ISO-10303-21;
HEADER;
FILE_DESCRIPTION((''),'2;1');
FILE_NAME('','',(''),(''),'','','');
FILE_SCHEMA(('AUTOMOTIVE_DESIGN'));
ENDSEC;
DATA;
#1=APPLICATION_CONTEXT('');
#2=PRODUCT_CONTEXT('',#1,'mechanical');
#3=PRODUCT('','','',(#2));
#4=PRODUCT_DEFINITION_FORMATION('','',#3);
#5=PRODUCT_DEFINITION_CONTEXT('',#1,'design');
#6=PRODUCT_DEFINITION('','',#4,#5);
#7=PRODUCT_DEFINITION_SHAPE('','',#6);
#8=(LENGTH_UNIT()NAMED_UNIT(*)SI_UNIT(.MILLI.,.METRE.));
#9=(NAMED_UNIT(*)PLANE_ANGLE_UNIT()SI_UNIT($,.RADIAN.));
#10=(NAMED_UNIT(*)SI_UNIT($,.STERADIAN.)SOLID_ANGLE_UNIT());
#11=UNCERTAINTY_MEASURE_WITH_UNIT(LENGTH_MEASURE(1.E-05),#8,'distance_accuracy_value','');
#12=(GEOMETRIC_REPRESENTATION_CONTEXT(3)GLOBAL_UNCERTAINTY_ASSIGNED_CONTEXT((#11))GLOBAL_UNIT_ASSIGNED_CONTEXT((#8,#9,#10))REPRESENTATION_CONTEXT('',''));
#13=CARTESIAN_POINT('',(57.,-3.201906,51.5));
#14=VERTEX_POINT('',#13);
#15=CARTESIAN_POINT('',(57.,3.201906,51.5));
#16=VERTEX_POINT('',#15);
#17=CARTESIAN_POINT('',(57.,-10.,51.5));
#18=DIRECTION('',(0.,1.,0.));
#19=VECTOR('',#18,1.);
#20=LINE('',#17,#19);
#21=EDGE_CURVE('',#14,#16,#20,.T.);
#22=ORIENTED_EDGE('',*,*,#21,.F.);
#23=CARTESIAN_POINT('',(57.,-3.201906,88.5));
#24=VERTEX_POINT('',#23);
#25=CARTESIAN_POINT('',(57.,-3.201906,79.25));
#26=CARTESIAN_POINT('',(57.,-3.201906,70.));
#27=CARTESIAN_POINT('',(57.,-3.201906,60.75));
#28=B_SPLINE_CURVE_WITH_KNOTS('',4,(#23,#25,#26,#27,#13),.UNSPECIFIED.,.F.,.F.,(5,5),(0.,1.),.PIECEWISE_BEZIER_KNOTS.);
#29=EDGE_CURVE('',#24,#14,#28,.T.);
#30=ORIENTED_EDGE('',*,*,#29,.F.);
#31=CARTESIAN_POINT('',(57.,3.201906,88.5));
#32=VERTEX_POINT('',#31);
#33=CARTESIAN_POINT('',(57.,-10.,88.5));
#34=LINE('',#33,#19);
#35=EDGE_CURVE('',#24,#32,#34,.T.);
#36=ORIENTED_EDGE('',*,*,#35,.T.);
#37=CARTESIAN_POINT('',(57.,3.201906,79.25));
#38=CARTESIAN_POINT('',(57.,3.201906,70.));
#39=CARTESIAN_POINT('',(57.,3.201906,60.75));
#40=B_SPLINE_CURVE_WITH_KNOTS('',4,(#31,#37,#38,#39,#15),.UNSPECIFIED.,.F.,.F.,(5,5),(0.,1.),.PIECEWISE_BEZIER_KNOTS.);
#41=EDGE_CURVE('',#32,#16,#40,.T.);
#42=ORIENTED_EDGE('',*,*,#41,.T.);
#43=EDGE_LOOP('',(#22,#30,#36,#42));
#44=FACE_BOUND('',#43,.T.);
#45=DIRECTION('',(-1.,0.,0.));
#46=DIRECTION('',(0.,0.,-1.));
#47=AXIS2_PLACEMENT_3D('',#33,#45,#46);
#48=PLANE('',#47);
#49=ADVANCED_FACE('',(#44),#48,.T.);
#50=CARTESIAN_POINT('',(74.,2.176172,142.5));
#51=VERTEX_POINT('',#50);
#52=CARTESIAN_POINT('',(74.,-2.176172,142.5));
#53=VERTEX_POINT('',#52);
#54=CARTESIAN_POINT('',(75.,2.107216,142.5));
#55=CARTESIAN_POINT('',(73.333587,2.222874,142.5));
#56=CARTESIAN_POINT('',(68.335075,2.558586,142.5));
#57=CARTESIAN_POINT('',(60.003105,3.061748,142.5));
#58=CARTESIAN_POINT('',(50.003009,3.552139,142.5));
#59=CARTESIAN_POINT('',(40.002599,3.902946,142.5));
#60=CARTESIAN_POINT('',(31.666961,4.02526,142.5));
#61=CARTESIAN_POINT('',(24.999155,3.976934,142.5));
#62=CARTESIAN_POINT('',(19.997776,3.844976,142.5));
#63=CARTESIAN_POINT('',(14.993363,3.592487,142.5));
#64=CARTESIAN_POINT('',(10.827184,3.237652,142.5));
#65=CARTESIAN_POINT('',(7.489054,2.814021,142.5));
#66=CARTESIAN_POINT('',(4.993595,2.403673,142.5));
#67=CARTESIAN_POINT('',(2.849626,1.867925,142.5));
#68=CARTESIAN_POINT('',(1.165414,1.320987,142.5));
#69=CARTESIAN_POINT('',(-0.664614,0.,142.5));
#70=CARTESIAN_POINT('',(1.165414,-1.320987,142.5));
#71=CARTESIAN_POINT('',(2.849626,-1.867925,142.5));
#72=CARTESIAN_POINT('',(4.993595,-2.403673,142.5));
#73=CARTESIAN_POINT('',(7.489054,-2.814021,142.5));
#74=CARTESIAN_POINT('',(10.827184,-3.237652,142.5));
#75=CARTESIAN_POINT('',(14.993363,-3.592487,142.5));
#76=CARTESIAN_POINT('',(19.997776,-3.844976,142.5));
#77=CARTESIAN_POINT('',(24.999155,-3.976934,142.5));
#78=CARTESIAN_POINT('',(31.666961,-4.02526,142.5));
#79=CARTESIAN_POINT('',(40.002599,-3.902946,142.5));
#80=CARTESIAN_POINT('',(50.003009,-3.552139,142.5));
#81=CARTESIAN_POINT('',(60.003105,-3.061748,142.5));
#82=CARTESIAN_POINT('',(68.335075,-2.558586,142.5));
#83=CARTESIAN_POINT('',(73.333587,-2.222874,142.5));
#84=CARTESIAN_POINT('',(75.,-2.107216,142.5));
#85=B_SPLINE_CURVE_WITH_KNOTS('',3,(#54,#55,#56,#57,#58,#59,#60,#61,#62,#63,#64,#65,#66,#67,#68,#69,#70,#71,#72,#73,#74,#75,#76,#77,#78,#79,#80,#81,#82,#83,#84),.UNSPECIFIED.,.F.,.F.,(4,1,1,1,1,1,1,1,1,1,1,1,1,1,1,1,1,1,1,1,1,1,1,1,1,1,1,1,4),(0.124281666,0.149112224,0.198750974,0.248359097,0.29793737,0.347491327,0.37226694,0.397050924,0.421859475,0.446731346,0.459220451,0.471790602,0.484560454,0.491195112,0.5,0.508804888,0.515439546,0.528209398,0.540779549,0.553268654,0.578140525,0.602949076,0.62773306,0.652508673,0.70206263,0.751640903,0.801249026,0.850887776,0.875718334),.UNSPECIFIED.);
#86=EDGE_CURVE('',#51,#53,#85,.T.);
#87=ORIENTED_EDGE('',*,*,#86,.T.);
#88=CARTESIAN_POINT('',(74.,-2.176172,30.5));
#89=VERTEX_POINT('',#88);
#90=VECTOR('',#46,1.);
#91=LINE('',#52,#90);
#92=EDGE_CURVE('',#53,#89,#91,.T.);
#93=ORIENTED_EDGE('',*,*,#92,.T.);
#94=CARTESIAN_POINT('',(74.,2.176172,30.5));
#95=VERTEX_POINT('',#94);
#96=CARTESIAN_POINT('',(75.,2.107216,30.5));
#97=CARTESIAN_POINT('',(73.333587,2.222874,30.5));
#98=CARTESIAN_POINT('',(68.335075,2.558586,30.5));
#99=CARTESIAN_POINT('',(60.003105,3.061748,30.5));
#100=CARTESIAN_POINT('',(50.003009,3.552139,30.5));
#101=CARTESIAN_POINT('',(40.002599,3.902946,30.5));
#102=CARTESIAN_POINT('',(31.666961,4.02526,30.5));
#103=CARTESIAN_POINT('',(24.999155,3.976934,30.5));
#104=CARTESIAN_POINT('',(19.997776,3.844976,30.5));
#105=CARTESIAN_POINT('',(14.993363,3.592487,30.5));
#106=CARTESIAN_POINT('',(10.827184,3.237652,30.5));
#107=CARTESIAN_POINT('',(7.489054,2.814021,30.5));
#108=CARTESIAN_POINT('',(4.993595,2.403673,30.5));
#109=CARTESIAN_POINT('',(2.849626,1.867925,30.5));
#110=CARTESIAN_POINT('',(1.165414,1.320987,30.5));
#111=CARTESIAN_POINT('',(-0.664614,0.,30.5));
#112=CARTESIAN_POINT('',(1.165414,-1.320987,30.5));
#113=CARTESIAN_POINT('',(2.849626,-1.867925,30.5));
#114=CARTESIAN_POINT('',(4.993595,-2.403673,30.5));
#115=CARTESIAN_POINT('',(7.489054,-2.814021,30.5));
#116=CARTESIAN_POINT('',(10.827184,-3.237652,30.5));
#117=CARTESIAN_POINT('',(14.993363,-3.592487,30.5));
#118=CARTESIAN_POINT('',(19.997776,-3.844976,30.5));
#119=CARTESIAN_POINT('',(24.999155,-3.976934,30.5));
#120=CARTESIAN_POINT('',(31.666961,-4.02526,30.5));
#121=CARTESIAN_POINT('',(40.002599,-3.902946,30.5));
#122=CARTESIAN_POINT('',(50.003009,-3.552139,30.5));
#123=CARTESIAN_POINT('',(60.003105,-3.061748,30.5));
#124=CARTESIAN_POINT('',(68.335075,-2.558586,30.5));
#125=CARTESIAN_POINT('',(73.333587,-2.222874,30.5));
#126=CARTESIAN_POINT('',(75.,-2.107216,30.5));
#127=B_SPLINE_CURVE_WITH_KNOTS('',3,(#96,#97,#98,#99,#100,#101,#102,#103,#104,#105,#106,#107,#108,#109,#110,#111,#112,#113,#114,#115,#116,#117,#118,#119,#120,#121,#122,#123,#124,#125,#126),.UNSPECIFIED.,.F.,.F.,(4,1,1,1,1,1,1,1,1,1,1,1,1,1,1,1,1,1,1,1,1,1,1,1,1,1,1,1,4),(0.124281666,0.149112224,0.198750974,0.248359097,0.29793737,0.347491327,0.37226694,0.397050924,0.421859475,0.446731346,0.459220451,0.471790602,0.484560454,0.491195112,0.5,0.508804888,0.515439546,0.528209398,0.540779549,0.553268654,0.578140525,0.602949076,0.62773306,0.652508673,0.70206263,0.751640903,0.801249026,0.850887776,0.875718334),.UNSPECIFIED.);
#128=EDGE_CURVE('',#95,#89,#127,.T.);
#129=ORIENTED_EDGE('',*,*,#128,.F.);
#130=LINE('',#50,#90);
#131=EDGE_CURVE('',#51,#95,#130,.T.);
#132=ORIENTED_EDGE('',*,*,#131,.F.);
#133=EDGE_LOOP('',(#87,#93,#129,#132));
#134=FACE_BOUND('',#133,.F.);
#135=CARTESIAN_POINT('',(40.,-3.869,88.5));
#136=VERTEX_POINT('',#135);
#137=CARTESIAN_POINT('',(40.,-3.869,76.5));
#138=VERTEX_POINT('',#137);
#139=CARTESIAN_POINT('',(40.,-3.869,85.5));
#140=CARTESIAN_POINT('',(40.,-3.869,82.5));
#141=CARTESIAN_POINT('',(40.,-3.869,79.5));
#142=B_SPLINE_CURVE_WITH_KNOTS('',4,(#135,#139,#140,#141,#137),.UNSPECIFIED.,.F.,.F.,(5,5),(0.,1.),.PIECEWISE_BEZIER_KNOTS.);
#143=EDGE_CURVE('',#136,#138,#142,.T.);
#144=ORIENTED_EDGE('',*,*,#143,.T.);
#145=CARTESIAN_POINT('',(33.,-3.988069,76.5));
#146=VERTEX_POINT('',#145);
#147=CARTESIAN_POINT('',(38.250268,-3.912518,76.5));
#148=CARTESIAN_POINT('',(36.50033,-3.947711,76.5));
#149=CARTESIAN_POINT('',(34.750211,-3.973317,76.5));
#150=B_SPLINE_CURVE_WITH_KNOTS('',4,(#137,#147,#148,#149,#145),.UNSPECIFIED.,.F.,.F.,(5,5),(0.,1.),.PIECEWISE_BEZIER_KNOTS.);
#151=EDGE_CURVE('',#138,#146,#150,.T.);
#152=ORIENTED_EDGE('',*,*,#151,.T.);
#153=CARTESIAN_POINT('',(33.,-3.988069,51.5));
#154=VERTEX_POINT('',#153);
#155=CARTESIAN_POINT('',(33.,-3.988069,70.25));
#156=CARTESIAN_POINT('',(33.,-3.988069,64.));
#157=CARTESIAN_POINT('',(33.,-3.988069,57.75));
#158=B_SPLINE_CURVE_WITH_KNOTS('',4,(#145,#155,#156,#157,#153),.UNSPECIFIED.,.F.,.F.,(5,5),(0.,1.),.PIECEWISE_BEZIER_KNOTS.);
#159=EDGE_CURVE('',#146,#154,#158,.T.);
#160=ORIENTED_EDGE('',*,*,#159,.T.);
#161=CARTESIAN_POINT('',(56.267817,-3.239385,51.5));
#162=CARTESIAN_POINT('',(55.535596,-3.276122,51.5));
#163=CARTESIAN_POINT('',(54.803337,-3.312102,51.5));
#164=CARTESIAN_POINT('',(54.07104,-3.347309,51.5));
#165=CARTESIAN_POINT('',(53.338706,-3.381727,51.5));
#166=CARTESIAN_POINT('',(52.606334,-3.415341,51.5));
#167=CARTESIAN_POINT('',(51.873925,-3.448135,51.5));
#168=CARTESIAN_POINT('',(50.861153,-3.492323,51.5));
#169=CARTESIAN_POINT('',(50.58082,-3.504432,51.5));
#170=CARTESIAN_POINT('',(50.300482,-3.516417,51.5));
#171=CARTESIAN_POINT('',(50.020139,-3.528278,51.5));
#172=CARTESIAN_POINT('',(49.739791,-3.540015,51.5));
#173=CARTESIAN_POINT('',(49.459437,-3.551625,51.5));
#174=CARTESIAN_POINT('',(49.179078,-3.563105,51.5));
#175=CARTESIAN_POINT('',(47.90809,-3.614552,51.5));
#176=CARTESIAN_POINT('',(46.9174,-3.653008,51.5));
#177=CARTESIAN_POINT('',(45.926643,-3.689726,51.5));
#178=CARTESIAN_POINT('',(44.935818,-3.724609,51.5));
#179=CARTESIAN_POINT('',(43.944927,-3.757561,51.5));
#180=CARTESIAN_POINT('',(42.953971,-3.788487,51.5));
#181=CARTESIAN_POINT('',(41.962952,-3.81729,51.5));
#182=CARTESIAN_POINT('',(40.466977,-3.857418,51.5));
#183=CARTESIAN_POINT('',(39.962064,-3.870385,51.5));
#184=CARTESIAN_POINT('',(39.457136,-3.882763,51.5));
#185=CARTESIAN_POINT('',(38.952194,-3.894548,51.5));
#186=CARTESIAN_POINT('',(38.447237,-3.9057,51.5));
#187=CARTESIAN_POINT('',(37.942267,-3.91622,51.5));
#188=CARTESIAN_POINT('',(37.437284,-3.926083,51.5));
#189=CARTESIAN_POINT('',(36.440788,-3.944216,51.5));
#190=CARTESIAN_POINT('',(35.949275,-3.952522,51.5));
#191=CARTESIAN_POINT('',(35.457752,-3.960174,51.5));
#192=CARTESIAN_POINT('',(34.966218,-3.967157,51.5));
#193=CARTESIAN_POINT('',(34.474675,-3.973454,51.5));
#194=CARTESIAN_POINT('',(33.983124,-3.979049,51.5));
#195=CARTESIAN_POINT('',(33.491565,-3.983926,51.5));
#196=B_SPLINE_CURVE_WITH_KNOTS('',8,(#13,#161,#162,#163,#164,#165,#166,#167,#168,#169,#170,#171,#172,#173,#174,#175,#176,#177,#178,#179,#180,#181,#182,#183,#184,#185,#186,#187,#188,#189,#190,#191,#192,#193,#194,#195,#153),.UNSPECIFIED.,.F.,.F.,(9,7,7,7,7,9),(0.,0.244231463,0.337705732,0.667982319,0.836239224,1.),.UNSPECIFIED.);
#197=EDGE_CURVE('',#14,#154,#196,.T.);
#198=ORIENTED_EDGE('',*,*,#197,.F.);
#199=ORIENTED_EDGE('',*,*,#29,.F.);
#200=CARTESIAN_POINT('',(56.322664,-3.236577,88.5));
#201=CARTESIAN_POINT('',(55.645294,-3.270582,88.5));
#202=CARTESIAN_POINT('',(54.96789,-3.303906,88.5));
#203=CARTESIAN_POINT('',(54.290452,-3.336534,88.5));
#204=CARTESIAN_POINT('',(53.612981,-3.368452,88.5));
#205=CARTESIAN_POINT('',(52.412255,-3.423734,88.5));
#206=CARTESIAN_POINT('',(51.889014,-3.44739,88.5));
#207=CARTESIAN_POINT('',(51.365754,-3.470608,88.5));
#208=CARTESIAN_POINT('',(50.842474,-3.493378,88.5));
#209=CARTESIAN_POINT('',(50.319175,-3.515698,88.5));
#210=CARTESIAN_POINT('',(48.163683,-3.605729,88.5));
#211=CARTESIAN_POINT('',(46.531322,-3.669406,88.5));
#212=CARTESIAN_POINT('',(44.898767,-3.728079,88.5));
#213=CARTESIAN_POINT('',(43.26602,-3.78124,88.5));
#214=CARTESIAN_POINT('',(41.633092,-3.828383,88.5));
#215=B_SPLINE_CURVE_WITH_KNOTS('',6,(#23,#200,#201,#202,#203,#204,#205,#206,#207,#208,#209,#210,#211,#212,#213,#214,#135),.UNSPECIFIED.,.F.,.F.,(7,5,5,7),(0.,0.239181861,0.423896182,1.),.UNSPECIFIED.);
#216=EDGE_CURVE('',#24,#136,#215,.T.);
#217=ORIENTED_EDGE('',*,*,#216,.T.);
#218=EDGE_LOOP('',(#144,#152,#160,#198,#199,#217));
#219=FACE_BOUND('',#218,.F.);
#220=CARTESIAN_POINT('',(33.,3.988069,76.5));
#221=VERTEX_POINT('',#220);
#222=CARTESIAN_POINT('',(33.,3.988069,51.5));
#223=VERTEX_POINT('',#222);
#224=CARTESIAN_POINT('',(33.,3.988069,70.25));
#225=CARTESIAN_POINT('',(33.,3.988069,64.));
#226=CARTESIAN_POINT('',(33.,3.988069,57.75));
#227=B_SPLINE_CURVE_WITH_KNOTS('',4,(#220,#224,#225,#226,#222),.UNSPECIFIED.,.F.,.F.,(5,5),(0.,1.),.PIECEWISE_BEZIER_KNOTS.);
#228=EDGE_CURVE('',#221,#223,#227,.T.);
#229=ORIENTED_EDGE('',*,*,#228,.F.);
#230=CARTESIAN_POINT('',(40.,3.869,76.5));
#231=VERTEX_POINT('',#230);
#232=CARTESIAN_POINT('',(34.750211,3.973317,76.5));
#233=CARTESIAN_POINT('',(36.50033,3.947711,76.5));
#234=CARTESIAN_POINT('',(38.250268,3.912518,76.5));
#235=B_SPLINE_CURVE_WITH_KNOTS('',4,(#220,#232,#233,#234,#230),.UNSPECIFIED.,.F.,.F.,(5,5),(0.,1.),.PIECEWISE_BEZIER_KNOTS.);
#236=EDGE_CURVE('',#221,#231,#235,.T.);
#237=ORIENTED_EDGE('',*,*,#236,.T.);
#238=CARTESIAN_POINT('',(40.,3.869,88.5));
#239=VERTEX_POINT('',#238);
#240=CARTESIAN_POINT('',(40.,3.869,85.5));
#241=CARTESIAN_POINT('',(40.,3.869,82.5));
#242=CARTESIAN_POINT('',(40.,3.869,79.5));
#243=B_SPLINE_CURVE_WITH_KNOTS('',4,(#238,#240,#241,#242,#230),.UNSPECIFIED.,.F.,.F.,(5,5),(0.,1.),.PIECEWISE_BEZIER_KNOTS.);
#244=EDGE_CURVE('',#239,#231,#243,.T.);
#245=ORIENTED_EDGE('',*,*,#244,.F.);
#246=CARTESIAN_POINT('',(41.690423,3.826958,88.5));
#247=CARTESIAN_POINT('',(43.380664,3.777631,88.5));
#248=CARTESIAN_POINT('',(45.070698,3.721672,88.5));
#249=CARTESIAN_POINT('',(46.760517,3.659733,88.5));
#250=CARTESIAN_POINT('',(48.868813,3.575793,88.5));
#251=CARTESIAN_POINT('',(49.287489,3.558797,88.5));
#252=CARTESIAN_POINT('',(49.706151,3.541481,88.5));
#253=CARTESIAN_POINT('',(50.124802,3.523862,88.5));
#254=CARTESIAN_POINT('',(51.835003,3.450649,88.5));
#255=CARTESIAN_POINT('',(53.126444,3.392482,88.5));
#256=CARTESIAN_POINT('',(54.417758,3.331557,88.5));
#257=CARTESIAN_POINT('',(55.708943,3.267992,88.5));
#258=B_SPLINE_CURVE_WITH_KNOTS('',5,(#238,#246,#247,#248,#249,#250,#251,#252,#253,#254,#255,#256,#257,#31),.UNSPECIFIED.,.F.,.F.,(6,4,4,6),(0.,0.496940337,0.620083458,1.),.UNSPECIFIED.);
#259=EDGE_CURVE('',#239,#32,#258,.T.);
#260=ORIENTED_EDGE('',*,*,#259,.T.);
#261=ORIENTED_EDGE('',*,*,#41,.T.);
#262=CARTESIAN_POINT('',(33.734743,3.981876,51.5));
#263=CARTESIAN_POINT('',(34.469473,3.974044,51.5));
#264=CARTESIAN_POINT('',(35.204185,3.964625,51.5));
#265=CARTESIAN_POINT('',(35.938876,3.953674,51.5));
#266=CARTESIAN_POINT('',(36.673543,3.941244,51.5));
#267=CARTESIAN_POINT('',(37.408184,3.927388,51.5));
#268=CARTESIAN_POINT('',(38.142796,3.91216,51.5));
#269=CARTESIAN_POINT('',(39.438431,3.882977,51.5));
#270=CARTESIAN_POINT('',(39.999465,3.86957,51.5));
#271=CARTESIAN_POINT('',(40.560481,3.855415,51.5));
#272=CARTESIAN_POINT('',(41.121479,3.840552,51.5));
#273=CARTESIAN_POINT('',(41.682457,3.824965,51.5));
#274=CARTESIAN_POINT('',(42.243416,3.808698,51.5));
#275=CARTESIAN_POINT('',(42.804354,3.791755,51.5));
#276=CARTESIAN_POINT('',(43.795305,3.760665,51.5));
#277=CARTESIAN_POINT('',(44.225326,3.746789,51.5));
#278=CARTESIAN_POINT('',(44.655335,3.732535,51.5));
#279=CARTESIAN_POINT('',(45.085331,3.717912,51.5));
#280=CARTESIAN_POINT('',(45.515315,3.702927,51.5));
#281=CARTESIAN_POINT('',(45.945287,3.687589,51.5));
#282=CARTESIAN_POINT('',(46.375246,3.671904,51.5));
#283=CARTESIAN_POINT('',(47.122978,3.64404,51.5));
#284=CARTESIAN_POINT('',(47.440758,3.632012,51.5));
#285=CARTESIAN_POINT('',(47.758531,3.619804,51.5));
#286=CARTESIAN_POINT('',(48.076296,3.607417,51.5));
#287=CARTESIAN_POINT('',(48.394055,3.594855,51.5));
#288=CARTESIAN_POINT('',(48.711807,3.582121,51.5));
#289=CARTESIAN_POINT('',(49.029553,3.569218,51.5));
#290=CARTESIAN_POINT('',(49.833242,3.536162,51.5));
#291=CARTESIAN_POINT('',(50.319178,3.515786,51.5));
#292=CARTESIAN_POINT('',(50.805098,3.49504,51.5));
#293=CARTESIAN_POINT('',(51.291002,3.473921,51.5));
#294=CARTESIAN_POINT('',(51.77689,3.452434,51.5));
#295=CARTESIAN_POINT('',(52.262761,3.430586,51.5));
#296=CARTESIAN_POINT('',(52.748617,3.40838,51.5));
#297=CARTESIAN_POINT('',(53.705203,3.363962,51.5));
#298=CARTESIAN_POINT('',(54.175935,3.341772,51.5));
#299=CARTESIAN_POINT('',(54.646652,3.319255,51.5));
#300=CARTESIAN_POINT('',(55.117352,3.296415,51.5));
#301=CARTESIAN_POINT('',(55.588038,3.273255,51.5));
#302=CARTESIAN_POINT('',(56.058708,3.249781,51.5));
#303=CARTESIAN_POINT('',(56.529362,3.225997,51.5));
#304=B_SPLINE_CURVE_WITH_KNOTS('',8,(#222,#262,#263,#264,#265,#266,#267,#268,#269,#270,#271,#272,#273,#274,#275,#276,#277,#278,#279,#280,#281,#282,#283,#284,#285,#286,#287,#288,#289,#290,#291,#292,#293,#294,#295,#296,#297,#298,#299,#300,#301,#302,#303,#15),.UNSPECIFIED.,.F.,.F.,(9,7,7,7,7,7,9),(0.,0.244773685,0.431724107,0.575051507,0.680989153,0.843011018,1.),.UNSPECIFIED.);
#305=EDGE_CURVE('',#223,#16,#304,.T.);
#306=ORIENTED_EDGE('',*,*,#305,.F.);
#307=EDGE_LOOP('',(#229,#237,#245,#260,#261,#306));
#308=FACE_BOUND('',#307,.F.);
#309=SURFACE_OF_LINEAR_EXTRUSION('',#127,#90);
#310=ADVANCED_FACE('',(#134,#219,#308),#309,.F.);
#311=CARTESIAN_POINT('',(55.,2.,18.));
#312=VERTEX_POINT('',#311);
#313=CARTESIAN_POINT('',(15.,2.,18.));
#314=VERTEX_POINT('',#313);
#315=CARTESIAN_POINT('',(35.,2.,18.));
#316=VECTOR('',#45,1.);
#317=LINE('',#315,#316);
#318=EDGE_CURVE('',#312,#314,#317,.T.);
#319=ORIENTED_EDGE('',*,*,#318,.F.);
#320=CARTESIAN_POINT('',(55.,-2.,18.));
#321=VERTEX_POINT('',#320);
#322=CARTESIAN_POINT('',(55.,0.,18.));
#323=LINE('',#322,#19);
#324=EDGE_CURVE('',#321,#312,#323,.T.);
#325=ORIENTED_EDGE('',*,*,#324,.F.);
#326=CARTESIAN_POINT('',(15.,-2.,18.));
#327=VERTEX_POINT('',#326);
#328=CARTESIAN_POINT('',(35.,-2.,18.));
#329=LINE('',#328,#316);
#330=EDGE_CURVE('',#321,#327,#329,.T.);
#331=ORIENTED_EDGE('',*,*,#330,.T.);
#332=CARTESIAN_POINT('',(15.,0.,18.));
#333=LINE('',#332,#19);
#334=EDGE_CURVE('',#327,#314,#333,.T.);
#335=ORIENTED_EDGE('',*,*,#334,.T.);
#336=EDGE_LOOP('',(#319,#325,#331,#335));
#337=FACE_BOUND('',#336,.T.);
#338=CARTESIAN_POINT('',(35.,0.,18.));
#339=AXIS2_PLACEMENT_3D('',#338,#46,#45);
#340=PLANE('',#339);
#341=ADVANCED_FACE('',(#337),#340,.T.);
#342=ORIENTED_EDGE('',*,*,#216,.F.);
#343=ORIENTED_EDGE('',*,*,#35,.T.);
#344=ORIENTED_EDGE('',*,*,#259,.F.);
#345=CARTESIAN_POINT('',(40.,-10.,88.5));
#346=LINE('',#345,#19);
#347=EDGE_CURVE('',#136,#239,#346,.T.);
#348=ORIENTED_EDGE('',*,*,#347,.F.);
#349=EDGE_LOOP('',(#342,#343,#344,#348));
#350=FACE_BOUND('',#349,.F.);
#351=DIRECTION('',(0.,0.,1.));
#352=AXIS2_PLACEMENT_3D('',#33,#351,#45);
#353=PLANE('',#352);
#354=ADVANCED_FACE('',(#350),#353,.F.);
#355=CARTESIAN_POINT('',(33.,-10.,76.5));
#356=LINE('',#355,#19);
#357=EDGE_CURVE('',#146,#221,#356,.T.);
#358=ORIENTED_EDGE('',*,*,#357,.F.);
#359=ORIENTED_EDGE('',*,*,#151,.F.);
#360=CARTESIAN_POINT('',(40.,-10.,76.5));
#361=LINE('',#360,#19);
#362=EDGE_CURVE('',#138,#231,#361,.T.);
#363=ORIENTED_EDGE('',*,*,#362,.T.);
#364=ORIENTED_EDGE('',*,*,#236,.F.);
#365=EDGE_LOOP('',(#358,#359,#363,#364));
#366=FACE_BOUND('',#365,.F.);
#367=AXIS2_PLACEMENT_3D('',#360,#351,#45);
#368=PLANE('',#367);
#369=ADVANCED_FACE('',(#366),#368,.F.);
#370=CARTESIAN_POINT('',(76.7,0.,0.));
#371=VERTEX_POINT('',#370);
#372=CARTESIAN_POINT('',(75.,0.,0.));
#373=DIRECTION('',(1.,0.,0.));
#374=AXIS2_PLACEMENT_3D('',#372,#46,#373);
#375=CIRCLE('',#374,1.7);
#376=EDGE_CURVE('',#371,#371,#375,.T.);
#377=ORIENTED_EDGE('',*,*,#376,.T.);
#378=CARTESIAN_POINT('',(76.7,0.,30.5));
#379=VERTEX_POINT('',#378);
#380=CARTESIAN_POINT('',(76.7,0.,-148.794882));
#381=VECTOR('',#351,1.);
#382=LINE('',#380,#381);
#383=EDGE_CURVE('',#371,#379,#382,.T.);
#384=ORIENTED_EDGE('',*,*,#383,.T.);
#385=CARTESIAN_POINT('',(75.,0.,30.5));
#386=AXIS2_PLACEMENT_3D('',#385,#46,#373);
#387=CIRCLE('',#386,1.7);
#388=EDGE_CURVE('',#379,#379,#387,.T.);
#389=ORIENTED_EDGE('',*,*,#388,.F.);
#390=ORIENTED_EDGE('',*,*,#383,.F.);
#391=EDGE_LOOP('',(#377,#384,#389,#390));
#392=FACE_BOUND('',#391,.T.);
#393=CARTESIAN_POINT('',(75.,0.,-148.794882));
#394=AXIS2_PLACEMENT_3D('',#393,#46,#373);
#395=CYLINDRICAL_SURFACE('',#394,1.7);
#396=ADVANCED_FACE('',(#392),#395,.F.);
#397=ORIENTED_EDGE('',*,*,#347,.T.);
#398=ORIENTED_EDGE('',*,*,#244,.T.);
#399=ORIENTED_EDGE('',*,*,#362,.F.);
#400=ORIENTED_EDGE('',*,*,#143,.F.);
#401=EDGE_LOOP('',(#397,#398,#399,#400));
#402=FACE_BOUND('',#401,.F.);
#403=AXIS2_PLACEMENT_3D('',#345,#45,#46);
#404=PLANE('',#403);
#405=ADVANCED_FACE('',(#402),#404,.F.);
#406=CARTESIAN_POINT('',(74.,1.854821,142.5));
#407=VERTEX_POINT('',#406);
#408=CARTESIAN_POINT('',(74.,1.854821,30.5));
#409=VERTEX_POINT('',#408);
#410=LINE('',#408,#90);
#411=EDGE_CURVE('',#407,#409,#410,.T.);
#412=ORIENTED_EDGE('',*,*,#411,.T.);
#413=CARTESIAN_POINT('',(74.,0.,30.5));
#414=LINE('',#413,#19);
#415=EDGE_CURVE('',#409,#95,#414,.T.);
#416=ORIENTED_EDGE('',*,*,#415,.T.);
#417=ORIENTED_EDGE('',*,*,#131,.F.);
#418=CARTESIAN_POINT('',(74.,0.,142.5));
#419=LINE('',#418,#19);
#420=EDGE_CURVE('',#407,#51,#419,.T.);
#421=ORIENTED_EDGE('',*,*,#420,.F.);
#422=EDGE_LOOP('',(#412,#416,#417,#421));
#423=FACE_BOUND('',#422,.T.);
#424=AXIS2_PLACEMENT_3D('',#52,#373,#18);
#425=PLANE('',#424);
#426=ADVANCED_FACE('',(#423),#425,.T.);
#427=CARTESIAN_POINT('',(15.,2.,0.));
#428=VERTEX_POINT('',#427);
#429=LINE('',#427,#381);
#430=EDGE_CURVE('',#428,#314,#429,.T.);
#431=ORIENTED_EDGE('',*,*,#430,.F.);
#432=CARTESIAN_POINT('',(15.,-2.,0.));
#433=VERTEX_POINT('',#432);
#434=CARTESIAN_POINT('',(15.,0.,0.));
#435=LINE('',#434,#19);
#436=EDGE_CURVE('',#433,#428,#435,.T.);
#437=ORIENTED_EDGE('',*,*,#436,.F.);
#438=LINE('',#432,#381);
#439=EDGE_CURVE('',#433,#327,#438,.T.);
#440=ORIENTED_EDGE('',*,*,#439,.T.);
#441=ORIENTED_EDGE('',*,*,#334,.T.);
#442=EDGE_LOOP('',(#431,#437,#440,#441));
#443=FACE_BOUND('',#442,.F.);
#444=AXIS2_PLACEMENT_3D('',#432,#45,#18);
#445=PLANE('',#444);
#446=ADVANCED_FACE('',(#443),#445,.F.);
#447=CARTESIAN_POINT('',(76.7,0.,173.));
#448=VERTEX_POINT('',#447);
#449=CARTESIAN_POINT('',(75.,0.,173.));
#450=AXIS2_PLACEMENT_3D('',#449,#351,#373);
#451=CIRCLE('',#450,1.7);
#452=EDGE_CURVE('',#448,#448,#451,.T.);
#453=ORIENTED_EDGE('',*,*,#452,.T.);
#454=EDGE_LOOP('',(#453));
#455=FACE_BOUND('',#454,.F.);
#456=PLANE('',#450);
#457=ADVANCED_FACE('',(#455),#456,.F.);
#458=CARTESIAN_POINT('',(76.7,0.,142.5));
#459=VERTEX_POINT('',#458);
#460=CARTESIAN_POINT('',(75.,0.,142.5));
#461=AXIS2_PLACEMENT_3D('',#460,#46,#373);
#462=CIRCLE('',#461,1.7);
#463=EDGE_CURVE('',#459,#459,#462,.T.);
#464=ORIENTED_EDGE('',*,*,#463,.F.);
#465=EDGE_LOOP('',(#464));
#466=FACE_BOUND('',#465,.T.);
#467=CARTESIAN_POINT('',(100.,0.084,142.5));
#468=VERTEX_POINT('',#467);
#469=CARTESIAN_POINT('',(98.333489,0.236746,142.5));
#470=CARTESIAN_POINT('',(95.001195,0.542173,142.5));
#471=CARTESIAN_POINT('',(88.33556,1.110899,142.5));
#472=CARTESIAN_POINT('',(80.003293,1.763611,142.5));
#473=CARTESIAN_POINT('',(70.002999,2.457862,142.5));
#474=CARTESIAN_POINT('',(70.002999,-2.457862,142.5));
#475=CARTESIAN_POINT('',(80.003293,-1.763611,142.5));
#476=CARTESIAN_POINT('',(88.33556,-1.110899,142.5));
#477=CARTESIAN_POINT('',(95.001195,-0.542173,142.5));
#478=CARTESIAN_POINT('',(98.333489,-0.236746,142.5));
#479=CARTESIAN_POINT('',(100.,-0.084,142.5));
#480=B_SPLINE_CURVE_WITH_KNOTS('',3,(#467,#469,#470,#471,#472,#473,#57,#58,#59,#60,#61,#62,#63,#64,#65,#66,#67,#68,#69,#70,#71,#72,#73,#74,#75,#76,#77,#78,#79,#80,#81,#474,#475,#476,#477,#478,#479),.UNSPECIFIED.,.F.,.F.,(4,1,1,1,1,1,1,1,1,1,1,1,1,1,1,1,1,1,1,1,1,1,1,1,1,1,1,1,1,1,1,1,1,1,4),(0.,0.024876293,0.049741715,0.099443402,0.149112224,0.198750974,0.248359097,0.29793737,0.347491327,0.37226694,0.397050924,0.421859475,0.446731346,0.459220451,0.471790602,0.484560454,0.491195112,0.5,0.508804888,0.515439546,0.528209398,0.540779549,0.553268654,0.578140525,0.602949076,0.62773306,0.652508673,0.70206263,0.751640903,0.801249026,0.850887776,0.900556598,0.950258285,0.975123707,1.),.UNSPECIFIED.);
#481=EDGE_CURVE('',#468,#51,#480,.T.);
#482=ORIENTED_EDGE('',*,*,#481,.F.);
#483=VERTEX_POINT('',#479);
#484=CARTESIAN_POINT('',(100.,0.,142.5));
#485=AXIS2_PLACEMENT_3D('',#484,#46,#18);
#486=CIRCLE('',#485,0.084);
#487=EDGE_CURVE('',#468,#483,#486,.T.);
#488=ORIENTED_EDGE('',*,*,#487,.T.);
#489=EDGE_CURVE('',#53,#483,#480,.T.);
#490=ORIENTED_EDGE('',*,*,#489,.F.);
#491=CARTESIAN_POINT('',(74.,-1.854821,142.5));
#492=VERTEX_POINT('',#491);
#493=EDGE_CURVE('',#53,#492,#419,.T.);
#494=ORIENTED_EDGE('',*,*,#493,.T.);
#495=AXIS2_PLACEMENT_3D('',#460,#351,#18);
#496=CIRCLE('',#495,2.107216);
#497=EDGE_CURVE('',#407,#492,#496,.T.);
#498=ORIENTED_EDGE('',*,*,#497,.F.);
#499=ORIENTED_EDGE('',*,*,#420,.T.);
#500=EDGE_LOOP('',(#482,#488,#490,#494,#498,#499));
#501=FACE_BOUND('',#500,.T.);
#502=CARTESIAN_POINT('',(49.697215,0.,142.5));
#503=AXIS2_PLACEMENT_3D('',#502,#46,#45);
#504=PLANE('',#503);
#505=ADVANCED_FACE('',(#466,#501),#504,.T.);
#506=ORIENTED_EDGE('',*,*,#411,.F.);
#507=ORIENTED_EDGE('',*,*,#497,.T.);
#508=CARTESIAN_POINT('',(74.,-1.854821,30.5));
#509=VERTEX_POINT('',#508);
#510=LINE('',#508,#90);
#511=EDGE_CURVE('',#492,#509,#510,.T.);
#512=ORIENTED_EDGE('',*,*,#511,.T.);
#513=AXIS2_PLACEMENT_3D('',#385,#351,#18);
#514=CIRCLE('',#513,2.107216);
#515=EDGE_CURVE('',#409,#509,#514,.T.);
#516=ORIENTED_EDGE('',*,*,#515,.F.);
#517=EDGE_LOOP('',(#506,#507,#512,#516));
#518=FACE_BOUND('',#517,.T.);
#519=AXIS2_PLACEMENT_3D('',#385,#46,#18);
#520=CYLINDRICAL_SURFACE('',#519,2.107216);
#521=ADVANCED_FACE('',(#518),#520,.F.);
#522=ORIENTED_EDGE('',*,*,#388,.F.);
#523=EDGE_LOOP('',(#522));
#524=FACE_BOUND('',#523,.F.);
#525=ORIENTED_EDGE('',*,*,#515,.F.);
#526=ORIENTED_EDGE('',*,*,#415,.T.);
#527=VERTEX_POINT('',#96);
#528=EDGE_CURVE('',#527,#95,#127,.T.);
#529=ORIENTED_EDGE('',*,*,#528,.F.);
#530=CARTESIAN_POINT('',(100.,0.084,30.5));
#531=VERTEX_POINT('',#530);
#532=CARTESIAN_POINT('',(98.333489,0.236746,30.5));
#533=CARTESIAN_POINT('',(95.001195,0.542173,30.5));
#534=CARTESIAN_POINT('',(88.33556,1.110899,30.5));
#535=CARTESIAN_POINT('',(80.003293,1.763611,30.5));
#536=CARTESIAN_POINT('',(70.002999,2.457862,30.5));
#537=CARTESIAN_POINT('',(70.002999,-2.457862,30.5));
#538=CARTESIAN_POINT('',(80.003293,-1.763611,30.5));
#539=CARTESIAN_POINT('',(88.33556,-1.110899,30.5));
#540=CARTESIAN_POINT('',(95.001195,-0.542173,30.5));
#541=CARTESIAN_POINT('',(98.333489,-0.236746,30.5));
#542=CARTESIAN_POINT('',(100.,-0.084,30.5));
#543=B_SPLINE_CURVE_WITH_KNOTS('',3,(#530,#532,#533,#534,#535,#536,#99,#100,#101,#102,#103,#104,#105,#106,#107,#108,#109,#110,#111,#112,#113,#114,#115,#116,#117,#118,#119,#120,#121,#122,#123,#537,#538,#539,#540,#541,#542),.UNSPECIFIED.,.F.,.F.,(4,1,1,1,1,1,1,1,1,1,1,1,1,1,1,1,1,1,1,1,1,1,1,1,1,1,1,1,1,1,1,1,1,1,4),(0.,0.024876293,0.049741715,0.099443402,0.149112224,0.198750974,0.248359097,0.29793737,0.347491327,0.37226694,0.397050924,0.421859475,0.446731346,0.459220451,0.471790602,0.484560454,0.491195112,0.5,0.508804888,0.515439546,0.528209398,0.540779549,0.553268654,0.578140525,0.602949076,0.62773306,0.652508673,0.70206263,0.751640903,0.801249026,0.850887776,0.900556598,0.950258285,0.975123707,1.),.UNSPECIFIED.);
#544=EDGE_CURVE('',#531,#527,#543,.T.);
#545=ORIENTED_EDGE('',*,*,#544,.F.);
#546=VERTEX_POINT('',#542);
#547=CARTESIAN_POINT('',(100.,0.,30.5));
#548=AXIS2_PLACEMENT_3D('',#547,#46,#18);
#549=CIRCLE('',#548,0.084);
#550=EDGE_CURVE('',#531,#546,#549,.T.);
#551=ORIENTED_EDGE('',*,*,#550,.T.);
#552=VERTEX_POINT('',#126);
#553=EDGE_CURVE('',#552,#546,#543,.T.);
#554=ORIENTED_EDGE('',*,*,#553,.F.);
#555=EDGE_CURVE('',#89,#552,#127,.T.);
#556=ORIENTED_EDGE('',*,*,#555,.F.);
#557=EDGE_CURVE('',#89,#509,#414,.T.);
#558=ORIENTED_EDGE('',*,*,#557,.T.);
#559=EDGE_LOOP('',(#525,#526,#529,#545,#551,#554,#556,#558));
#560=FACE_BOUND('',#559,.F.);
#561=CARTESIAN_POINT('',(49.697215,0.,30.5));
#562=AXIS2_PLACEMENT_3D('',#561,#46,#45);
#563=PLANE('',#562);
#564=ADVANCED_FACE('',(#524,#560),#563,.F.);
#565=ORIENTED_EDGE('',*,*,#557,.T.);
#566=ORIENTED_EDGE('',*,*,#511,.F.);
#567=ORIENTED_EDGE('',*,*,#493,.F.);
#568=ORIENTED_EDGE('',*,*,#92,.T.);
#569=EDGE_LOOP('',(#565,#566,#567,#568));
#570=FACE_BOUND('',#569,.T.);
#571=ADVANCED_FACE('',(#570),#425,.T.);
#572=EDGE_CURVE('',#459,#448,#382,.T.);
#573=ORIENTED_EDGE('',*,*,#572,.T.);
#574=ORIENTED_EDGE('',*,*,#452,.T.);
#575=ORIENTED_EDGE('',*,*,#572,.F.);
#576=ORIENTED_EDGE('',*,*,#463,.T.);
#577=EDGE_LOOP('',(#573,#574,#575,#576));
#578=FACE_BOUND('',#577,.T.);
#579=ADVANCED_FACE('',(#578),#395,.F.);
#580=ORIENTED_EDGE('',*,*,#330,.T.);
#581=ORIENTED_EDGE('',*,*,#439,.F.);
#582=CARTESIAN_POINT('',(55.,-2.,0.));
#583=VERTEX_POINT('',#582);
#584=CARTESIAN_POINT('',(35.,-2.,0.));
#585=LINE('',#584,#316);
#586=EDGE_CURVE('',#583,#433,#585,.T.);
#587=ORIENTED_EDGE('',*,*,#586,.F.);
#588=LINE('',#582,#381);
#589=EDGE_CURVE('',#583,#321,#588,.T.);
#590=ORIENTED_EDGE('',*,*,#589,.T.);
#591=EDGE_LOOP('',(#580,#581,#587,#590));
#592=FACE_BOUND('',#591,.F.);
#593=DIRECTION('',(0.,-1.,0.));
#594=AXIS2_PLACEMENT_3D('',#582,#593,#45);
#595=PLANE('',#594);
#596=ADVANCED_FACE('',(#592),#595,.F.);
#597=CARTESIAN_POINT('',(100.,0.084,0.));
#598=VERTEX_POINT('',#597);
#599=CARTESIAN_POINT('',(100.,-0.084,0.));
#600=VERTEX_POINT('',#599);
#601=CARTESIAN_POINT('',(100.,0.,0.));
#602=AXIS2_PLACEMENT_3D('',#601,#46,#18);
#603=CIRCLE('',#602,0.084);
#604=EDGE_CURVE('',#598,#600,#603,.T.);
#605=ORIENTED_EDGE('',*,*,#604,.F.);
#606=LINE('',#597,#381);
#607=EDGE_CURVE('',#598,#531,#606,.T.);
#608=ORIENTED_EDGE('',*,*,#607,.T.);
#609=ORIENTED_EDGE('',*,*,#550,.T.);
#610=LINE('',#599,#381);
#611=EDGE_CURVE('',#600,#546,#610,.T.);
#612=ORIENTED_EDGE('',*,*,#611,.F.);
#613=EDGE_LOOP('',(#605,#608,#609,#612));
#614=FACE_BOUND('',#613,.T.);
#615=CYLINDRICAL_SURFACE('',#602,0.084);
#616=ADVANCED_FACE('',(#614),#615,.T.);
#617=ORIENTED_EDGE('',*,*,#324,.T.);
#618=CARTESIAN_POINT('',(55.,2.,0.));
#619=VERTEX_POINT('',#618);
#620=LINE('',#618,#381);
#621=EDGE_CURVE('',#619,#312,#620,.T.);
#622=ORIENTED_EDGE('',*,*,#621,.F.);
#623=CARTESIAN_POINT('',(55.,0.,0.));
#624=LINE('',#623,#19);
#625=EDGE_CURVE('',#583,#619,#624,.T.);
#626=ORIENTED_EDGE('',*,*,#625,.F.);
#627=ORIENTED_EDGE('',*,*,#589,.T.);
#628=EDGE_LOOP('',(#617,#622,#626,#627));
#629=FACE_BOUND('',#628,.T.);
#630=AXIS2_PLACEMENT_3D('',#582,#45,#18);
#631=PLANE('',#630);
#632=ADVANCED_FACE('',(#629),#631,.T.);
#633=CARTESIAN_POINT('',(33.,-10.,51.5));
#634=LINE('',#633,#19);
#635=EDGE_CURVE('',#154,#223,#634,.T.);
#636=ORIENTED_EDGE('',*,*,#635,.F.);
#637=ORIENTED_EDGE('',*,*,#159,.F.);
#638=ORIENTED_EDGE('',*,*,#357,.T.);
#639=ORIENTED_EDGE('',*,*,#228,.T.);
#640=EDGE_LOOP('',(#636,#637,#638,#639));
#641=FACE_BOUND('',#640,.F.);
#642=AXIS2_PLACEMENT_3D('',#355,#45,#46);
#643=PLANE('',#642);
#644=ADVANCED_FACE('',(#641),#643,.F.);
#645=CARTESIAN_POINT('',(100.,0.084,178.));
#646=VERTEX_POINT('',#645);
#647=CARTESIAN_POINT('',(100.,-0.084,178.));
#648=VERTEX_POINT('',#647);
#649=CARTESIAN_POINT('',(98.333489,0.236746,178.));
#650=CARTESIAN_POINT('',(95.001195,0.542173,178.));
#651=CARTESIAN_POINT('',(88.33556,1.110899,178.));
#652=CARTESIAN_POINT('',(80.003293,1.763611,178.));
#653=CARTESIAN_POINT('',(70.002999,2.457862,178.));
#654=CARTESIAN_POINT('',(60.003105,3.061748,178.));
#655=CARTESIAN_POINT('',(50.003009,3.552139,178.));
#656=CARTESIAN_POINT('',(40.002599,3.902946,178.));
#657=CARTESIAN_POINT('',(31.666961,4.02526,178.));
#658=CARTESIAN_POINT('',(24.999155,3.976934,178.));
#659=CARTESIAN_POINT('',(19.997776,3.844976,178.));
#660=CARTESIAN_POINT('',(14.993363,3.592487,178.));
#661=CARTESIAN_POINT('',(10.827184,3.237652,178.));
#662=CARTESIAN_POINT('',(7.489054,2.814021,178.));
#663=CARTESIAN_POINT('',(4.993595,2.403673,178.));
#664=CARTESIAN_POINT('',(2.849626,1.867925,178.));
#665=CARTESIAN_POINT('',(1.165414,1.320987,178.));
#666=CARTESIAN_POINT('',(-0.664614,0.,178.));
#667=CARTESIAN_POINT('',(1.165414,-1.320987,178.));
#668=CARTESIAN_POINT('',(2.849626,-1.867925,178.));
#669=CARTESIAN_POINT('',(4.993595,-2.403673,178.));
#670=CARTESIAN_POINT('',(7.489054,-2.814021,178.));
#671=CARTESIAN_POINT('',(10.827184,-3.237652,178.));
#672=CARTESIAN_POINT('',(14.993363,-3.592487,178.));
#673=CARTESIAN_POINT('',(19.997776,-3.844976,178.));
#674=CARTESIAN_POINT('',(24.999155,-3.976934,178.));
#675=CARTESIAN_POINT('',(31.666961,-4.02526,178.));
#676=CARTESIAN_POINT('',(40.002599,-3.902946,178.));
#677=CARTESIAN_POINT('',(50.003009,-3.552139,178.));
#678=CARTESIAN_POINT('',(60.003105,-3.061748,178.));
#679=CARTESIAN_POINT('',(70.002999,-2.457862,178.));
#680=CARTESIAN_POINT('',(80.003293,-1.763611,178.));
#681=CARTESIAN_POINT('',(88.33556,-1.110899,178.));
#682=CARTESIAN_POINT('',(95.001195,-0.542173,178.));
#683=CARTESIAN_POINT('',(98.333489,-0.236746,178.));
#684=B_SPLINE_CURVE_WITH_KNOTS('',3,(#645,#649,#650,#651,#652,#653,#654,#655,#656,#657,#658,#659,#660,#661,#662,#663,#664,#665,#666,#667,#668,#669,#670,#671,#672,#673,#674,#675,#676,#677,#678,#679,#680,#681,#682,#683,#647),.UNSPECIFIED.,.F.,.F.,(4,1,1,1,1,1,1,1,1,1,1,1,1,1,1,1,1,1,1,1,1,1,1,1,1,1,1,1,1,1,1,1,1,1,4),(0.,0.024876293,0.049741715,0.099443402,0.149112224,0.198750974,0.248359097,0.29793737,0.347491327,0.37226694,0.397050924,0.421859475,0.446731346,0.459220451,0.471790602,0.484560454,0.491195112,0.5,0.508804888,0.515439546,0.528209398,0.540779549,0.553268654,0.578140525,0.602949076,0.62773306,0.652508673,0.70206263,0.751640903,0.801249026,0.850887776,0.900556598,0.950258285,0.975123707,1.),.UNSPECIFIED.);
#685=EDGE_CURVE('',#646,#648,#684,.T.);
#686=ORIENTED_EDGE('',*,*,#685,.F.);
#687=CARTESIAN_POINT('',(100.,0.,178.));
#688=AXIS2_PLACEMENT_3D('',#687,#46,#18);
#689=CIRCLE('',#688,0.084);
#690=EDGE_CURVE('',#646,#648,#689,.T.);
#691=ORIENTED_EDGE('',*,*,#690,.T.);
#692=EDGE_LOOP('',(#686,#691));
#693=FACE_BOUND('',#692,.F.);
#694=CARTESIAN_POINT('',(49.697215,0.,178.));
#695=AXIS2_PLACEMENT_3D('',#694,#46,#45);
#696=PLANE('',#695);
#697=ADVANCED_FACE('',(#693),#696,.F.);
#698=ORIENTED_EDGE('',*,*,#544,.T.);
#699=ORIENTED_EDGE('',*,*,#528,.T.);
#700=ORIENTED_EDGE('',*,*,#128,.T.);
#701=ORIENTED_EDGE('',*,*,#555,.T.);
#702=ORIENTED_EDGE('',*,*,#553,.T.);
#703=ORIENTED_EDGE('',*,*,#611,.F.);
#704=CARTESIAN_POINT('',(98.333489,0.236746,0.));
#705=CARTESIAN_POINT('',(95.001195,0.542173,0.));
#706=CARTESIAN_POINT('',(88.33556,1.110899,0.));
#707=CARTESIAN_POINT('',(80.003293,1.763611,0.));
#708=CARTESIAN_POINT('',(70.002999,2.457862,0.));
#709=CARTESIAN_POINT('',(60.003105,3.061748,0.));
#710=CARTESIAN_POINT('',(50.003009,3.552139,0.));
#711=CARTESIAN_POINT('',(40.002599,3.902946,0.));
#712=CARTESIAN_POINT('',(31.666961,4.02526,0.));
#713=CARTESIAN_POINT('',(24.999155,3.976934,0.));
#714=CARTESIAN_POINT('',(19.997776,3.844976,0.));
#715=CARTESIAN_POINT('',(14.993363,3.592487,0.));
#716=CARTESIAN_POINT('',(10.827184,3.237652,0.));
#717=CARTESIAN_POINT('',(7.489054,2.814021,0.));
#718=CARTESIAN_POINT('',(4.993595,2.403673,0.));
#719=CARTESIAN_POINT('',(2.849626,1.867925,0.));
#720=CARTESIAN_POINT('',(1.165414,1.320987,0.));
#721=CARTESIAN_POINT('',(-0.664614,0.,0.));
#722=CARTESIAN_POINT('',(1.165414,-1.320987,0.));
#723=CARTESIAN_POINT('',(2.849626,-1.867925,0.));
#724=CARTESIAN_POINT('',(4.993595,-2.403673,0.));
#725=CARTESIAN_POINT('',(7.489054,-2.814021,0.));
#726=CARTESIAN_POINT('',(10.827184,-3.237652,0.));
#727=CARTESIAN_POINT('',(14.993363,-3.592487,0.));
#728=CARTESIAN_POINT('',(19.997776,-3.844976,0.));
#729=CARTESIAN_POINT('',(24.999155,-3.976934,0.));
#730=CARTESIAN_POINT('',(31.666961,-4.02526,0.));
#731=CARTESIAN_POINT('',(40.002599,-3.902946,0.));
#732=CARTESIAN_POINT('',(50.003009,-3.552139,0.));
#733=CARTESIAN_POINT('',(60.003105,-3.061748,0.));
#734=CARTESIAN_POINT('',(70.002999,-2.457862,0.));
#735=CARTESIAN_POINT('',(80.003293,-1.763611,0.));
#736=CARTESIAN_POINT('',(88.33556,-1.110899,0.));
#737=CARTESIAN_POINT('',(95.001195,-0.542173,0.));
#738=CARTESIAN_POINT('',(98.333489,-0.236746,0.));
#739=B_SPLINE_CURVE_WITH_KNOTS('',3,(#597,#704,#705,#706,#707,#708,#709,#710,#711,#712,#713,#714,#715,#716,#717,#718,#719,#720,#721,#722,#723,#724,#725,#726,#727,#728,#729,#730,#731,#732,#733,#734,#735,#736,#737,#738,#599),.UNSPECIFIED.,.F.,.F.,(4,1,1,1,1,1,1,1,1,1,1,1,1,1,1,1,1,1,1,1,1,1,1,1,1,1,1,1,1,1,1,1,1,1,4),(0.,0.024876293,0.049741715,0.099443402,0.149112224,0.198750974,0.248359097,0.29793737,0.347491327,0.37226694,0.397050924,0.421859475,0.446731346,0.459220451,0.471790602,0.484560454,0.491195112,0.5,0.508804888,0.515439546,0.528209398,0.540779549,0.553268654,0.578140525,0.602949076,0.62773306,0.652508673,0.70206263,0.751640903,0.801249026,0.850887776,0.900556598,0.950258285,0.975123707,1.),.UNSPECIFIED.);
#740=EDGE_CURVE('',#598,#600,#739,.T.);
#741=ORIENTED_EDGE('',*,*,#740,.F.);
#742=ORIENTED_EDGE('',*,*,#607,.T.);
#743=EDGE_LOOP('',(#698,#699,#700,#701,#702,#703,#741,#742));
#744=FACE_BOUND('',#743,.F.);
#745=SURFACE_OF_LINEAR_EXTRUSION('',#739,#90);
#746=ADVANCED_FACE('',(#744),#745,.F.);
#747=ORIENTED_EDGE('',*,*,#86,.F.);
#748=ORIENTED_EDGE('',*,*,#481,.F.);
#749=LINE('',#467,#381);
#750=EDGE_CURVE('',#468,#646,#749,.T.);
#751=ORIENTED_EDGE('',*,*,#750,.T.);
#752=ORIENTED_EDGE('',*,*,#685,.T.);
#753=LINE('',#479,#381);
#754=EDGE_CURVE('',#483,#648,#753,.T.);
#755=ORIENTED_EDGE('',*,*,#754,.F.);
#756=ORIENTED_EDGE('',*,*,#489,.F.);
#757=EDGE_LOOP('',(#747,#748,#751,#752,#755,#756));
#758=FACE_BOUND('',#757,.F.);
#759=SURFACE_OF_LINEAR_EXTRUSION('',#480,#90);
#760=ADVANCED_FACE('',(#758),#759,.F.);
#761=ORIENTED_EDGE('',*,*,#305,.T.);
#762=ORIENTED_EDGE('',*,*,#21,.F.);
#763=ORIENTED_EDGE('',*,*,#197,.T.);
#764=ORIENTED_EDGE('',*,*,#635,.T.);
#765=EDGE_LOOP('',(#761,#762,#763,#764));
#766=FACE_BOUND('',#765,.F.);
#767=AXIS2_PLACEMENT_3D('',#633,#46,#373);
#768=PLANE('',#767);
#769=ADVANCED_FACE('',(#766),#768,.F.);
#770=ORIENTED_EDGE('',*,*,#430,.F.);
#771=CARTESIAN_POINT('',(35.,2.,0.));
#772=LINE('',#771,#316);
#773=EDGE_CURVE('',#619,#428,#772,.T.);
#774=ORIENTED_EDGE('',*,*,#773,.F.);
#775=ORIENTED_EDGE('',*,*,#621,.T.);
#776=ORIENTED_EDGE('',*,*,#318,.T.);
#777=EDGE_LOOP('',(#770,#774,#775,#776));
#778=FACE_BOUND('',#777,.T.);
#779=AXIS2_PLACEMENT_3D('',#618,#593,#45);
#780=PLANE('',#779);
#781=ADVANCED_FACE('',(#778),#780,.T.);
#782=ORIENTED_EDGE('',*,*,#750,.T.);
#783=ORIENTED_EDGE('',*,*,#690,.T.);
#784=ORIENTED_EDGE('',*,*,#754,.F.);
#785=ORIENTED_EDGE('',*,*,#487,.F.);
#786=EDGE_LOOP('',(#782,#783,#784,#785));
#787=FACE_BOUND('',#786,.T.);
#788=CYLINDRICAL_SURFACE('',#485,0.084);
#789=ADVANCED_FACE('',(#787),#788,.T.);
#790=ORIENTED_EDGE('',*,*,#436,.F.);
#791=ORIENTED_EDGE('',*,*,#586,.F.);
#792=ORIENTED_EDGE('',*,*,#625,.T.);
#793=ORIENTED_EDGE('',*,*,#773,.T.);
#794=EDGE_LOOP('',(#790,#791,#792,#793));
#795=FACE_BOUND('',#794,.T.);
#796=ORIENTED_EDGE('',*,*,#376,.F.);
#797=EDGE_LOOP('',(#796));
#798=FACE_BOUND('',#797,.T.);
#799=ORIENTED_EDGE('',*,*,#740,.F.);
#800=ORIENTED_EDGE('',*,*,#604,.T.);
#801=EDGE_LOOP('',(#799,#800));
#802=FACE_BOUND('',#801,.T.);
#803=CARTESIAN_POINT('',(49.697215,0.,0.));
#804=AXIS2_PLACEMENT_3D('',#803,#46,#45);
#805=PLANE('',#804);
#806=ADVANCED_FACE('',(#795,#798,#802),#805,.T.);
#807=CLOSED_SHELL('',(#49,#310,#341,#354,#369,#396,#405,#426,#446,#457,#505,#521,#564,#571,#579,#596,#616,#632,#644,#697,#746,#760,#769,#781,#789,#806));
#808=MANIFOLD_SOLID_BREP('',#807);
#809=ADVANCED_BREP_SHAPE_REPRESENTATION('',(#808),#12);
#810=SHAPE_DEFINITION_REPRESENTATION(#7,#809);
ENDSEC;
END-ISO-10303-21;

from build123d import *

# Parameters (mm, degrees)
FOAMBASSA_DEPTH                = 30.5
FOAMMEDIA_DEPTH                = 112
SCHIZZO4_W                     = 1
SCHIZZO4_H                     = 4.352344546
SMUSSOPARTEMOBILE_DEPTH        = 112
FOAMALTA_DEPTH                 = 35.5
FOROPERNORUDDEVATOR_DEPTH      = 142.5
FOROPERNORUDDEVATOR_DEPTH_BACK = 179.294882462
SCHIZZO5_R                     = 1.7
FOROSERVOMOTORE_DEPTH          = 205.687164063
SCHIZZO14_W                    = 40
SCHIZZO14_H                    = 4
TAGLIOSPINA_DEPTH              = 18


with BuildPart() as part:
    # Schizzo1 → FoamBassa (new body)
    with BuildSketch(Plane.XY):
        with BuildLine():
            ThreePointArc((100, 0.084), (100.084, 0), (100, -0.084))
            add(Edge.make_bspline(
                [(100, 0.084), (98.333488815, 0.23674648), (95.001194725, 0.542172689), (88.335559621, 1.11089898), (80.003293356, 1.763610995), (70.002998933, 2.457861693), (60.003104625, 3.061747723), (50.003008601, 3.552139212), (40.002598558, 3.902946494), (31.666961486, 4.025260151), (24.9991546, 3.976933791), (19.997775587, 3.844976398), (14.993363131, 3.592486959), (10.827184065, 3.237651579), (7.489054388, 2.814021367), (4.99359465, 2.403673059), (2.84962634, 1.867925494), (1.165413503, 1.320987252), (-0.664613784, 0), (1.165413503, -1.320987252), (2.84962634, -1.867925494), (4.99359465, -2.403673059), (7.489054388, -2.814021367), (10.827184065, -3.237651579), (14.993363131, -3.592486959), (19.997775587, -3.844976398), (24.9991546, -3.976933791), (31.666961486, -4.025260151), (40.002598558, -3.902946494), (50.003008601, -3.552139212), (60.003104625, -3.061747723), (70.002998933, -2.457861693), (80.003293356, -1.763610995), (88.335559621, -1.11089898), (95.001194725, -0.542172689), (98.333488815, -0.23674648), (100, -0.084)],
                knots=[0, 0, 0, 0, 0.024876293, 0.049741715, 0.099443402, 0.149112224, 0.198750974, 0.248359097, 0.29793737, 0.347491327, 0.37226694, 0.397050924, 0.421859475, 0.446731346, 0.459220451, 0.471790602, 0.484560454, 0.491195112, 0.5, 0.508804888, 0.515439546, 0.528209398, 0.540779549, 0.553268654, 0.578140525, 0.602949076, 0.62773306, 0.652508673, 0.70206263, 0.751640903, 0.801249026, 0.850887776, 0.900556598, 0.950258285, 0.975123707, 1, 1, 1, 1], degree=3))
        make_face()
    extrude(amount=FOAMBASSA_DEPTH)

    # Schizzo2 → FoamMedia (add)
    with BuildSketch(Plane.XY.offset(30.5)):
        with BuildLine():
            ThreePointArc((75, 2.107216055), (72.892783944, 0), (75, -2.107216055))
            add(Edge.make_bspline(
                [(75, 2.107216055), (73.333587352, 2.222873526), (68.33507528, 2.558586337), (60.003104625, 3.061747723), (50.003008601, 3.552139212), (40.002598558, 3.902946494), (31.666961486, 4.025260151), (24.9991546, 3.976933791), (19.997775587, 3.844976398), (14.993363131, 3.592486959), (10.827184065, 3.237651579), (7.489054388, 2.814021367), (4.99359465, 2.403673059), (2.84962634, 1.867925494), (1.165413503, 1.320987252), (-0.664613784, 0), (1.165413503, -1.320987252), (2.84962634, -1.867925494), (4.99359465, -2.403673059), (7.489054388, -2.814021367), (10.827184065, -3.237651579), (14.993363131, -3.592486959), (19.997775587, -3.844976398), (24.9991546, -3.976933791), (31.666961486, -4.025260151), (40.002598558, -3.902946494), (50.003008601, -3.552139212), (60.003104625, -3.061747723), (68.33507528, -2.558586337), (73.333587352, -2.222873526), (75, -2.107216055)],
                knots=[0.124281666, 0.124281666, 0.124281666, 0.124281666, 0.149112224, 0.198750974, 0.248359097, 0.29793737, 0.347491327, 0.37226694, 0.397050924, 0.421859475, 0.446731346, 0.459220451, 0.471790602, 0.484560454, 0.491195112, 0.5, 0.508804888, 0.515439546, 0.528209398, 0.540779549, 0.553268654, 0.578140525, 0.602949076, 0.62773306, 0.652508673, 0.70206263, 0.751640903, 0.801249026, 0.850887776, 0.875718334, 0.875718334, 0.875718334, 0.875718334], degree=3))
        make_face()
    extrude(amount=FOAMMEDIA_DEPTH)

    # Schizzo4 → SmussoParteMobile (cut)
    with BuildSketch(Plane.XY.offset(142.5)):
        with Locations((74.5, 0)):
            Rectangle(SCHIZZO4_W, SCHIZZO4_H)
    extrude(amount=-SMUSSOPARTEMOBILE_DEPTH, mode=Mode.SUBTRACT)

    # Schizzo6 → FoamAlta (add)
    with BuildSketch(Plane.XY.offset(142.5)):
        with BuildLine():
            ThreePointArc((100, 0.084), (100.084, 0), (100, -0.084))
            add(Edge.make_bspline(
                [(100, 0.084), (98.333488815, 0.23674648), (95.001194725, 0.542172689), (88.335559621, 1.11089898), (80.003293356, 1.763610995), (70.002998933, 2.457861693), (60.003104625, 3.061747723), (50.003008601, 3.552139212), (40.002598558, 3.902946494), (31.666961486, 4.025260151), (24.9991546, 3.976933791), (19.997775587, 3.844976398), (14.993363131, 3.592486959), (10.827184065, 3.237651579), (7.489054388, 2.814021367), (4.99359465, 2.403673059), (2.84962634, 1.867925494), (1.165413503, 1.320987252), (-0.664613784, 0), (1.165413503, -1.320987252), (2.84962634, -1.867925494), (4.99359465, -2.403673059), (7.489054388, -2.814021367), (10.827184065, -3.237651579), (14.993363131, -3.592486959), (19.997775587, -3.844976398), (24.9991546, -3.976933791), (31.666961486, -4.025260151), (40.002598558, -3.902946494), (50.003008601, -3.552139212), (60.003104625, -3.061747723), (70.002998933, -2.457861693), (80.003293356, -1.763610995), (88.335559621, -1.11089898), (95.001194725, -0.542172689), (98.333488815, -0.23674648), (100, -0.084)],
                knots=[0, 0, 0, 0, 0.024876293, 0.049741715, 0.099443402, 0.149112224, 0.198750974, 0.248359097, 0.29793737, 0.347491327, 0.37226694, 0.397050924, 0.421859475, 0.446731346, 0.459220451, 0.471790602, 0.484560454, 0.491195112, 0.5, 0.508804888, 0.515439546, 0.528209398, 0.540779549, 0.553268654, 0.578140525, 0.602949076, 0.62773306, 0.652508673, 0.70206263, 0.751640903, 0.801249026, 0.850887776, 0.900556598, 0.950258285, 0.975123707, 1, 1, 1, 1], degree=3))
        make_face()
    extrude(amount=FOAMALTA_DEPTH)

    # Schizzo5 → ForoPernoRuddevator (cut, two sides: drawn at the far end of the back side and taken through both)
    with BuildSketch(Plane.XY.offset(30.5).offset(-FOROPERNORUDDEVATOR_DEPTH_BACK)):
        with Locations((75, 0)):
            Circle(SCHIZZO5_R)
    extrude(amount=FOROPERNORUDDEVATOR_DEPTH + FOROPERNORUDDEVATOR_DEPTH_BACK, mode=Mode.SUBTRACT)

    # Schizzo12 → ForoServomotore (cut, through all)
    with BuildSketch(Plane(origin=(0, -10, 0), x_dir=(1, 0, 0), z_dir=(0, 1, 0))):
        Polygon((57, -76.5), (57, -88.5), (40, -88.5), (40, -76.5), (33, -76.5), (33, -51.5), (57, -51.5), align=None)
    extrude(amount=FOROSERVOMOTORE_DEPTH, mode=Mode.SUBTRACT)

    # Schizzo14 → TaglioSpina (cut)
    with BuildSketch(Plane(origin=(0, 0, 0), x_dir=(-1, 0, 0), z_dir=(0, 0, -1))):
        with Locations((-35, 0)):
            Rectangle(SCHIZZO14_W, SCHIZZO14_H)
    extrude(amount=-TAGLIOSPINA_DEPTH, mode=Mode.SUBTRACT)


solid = part.part
